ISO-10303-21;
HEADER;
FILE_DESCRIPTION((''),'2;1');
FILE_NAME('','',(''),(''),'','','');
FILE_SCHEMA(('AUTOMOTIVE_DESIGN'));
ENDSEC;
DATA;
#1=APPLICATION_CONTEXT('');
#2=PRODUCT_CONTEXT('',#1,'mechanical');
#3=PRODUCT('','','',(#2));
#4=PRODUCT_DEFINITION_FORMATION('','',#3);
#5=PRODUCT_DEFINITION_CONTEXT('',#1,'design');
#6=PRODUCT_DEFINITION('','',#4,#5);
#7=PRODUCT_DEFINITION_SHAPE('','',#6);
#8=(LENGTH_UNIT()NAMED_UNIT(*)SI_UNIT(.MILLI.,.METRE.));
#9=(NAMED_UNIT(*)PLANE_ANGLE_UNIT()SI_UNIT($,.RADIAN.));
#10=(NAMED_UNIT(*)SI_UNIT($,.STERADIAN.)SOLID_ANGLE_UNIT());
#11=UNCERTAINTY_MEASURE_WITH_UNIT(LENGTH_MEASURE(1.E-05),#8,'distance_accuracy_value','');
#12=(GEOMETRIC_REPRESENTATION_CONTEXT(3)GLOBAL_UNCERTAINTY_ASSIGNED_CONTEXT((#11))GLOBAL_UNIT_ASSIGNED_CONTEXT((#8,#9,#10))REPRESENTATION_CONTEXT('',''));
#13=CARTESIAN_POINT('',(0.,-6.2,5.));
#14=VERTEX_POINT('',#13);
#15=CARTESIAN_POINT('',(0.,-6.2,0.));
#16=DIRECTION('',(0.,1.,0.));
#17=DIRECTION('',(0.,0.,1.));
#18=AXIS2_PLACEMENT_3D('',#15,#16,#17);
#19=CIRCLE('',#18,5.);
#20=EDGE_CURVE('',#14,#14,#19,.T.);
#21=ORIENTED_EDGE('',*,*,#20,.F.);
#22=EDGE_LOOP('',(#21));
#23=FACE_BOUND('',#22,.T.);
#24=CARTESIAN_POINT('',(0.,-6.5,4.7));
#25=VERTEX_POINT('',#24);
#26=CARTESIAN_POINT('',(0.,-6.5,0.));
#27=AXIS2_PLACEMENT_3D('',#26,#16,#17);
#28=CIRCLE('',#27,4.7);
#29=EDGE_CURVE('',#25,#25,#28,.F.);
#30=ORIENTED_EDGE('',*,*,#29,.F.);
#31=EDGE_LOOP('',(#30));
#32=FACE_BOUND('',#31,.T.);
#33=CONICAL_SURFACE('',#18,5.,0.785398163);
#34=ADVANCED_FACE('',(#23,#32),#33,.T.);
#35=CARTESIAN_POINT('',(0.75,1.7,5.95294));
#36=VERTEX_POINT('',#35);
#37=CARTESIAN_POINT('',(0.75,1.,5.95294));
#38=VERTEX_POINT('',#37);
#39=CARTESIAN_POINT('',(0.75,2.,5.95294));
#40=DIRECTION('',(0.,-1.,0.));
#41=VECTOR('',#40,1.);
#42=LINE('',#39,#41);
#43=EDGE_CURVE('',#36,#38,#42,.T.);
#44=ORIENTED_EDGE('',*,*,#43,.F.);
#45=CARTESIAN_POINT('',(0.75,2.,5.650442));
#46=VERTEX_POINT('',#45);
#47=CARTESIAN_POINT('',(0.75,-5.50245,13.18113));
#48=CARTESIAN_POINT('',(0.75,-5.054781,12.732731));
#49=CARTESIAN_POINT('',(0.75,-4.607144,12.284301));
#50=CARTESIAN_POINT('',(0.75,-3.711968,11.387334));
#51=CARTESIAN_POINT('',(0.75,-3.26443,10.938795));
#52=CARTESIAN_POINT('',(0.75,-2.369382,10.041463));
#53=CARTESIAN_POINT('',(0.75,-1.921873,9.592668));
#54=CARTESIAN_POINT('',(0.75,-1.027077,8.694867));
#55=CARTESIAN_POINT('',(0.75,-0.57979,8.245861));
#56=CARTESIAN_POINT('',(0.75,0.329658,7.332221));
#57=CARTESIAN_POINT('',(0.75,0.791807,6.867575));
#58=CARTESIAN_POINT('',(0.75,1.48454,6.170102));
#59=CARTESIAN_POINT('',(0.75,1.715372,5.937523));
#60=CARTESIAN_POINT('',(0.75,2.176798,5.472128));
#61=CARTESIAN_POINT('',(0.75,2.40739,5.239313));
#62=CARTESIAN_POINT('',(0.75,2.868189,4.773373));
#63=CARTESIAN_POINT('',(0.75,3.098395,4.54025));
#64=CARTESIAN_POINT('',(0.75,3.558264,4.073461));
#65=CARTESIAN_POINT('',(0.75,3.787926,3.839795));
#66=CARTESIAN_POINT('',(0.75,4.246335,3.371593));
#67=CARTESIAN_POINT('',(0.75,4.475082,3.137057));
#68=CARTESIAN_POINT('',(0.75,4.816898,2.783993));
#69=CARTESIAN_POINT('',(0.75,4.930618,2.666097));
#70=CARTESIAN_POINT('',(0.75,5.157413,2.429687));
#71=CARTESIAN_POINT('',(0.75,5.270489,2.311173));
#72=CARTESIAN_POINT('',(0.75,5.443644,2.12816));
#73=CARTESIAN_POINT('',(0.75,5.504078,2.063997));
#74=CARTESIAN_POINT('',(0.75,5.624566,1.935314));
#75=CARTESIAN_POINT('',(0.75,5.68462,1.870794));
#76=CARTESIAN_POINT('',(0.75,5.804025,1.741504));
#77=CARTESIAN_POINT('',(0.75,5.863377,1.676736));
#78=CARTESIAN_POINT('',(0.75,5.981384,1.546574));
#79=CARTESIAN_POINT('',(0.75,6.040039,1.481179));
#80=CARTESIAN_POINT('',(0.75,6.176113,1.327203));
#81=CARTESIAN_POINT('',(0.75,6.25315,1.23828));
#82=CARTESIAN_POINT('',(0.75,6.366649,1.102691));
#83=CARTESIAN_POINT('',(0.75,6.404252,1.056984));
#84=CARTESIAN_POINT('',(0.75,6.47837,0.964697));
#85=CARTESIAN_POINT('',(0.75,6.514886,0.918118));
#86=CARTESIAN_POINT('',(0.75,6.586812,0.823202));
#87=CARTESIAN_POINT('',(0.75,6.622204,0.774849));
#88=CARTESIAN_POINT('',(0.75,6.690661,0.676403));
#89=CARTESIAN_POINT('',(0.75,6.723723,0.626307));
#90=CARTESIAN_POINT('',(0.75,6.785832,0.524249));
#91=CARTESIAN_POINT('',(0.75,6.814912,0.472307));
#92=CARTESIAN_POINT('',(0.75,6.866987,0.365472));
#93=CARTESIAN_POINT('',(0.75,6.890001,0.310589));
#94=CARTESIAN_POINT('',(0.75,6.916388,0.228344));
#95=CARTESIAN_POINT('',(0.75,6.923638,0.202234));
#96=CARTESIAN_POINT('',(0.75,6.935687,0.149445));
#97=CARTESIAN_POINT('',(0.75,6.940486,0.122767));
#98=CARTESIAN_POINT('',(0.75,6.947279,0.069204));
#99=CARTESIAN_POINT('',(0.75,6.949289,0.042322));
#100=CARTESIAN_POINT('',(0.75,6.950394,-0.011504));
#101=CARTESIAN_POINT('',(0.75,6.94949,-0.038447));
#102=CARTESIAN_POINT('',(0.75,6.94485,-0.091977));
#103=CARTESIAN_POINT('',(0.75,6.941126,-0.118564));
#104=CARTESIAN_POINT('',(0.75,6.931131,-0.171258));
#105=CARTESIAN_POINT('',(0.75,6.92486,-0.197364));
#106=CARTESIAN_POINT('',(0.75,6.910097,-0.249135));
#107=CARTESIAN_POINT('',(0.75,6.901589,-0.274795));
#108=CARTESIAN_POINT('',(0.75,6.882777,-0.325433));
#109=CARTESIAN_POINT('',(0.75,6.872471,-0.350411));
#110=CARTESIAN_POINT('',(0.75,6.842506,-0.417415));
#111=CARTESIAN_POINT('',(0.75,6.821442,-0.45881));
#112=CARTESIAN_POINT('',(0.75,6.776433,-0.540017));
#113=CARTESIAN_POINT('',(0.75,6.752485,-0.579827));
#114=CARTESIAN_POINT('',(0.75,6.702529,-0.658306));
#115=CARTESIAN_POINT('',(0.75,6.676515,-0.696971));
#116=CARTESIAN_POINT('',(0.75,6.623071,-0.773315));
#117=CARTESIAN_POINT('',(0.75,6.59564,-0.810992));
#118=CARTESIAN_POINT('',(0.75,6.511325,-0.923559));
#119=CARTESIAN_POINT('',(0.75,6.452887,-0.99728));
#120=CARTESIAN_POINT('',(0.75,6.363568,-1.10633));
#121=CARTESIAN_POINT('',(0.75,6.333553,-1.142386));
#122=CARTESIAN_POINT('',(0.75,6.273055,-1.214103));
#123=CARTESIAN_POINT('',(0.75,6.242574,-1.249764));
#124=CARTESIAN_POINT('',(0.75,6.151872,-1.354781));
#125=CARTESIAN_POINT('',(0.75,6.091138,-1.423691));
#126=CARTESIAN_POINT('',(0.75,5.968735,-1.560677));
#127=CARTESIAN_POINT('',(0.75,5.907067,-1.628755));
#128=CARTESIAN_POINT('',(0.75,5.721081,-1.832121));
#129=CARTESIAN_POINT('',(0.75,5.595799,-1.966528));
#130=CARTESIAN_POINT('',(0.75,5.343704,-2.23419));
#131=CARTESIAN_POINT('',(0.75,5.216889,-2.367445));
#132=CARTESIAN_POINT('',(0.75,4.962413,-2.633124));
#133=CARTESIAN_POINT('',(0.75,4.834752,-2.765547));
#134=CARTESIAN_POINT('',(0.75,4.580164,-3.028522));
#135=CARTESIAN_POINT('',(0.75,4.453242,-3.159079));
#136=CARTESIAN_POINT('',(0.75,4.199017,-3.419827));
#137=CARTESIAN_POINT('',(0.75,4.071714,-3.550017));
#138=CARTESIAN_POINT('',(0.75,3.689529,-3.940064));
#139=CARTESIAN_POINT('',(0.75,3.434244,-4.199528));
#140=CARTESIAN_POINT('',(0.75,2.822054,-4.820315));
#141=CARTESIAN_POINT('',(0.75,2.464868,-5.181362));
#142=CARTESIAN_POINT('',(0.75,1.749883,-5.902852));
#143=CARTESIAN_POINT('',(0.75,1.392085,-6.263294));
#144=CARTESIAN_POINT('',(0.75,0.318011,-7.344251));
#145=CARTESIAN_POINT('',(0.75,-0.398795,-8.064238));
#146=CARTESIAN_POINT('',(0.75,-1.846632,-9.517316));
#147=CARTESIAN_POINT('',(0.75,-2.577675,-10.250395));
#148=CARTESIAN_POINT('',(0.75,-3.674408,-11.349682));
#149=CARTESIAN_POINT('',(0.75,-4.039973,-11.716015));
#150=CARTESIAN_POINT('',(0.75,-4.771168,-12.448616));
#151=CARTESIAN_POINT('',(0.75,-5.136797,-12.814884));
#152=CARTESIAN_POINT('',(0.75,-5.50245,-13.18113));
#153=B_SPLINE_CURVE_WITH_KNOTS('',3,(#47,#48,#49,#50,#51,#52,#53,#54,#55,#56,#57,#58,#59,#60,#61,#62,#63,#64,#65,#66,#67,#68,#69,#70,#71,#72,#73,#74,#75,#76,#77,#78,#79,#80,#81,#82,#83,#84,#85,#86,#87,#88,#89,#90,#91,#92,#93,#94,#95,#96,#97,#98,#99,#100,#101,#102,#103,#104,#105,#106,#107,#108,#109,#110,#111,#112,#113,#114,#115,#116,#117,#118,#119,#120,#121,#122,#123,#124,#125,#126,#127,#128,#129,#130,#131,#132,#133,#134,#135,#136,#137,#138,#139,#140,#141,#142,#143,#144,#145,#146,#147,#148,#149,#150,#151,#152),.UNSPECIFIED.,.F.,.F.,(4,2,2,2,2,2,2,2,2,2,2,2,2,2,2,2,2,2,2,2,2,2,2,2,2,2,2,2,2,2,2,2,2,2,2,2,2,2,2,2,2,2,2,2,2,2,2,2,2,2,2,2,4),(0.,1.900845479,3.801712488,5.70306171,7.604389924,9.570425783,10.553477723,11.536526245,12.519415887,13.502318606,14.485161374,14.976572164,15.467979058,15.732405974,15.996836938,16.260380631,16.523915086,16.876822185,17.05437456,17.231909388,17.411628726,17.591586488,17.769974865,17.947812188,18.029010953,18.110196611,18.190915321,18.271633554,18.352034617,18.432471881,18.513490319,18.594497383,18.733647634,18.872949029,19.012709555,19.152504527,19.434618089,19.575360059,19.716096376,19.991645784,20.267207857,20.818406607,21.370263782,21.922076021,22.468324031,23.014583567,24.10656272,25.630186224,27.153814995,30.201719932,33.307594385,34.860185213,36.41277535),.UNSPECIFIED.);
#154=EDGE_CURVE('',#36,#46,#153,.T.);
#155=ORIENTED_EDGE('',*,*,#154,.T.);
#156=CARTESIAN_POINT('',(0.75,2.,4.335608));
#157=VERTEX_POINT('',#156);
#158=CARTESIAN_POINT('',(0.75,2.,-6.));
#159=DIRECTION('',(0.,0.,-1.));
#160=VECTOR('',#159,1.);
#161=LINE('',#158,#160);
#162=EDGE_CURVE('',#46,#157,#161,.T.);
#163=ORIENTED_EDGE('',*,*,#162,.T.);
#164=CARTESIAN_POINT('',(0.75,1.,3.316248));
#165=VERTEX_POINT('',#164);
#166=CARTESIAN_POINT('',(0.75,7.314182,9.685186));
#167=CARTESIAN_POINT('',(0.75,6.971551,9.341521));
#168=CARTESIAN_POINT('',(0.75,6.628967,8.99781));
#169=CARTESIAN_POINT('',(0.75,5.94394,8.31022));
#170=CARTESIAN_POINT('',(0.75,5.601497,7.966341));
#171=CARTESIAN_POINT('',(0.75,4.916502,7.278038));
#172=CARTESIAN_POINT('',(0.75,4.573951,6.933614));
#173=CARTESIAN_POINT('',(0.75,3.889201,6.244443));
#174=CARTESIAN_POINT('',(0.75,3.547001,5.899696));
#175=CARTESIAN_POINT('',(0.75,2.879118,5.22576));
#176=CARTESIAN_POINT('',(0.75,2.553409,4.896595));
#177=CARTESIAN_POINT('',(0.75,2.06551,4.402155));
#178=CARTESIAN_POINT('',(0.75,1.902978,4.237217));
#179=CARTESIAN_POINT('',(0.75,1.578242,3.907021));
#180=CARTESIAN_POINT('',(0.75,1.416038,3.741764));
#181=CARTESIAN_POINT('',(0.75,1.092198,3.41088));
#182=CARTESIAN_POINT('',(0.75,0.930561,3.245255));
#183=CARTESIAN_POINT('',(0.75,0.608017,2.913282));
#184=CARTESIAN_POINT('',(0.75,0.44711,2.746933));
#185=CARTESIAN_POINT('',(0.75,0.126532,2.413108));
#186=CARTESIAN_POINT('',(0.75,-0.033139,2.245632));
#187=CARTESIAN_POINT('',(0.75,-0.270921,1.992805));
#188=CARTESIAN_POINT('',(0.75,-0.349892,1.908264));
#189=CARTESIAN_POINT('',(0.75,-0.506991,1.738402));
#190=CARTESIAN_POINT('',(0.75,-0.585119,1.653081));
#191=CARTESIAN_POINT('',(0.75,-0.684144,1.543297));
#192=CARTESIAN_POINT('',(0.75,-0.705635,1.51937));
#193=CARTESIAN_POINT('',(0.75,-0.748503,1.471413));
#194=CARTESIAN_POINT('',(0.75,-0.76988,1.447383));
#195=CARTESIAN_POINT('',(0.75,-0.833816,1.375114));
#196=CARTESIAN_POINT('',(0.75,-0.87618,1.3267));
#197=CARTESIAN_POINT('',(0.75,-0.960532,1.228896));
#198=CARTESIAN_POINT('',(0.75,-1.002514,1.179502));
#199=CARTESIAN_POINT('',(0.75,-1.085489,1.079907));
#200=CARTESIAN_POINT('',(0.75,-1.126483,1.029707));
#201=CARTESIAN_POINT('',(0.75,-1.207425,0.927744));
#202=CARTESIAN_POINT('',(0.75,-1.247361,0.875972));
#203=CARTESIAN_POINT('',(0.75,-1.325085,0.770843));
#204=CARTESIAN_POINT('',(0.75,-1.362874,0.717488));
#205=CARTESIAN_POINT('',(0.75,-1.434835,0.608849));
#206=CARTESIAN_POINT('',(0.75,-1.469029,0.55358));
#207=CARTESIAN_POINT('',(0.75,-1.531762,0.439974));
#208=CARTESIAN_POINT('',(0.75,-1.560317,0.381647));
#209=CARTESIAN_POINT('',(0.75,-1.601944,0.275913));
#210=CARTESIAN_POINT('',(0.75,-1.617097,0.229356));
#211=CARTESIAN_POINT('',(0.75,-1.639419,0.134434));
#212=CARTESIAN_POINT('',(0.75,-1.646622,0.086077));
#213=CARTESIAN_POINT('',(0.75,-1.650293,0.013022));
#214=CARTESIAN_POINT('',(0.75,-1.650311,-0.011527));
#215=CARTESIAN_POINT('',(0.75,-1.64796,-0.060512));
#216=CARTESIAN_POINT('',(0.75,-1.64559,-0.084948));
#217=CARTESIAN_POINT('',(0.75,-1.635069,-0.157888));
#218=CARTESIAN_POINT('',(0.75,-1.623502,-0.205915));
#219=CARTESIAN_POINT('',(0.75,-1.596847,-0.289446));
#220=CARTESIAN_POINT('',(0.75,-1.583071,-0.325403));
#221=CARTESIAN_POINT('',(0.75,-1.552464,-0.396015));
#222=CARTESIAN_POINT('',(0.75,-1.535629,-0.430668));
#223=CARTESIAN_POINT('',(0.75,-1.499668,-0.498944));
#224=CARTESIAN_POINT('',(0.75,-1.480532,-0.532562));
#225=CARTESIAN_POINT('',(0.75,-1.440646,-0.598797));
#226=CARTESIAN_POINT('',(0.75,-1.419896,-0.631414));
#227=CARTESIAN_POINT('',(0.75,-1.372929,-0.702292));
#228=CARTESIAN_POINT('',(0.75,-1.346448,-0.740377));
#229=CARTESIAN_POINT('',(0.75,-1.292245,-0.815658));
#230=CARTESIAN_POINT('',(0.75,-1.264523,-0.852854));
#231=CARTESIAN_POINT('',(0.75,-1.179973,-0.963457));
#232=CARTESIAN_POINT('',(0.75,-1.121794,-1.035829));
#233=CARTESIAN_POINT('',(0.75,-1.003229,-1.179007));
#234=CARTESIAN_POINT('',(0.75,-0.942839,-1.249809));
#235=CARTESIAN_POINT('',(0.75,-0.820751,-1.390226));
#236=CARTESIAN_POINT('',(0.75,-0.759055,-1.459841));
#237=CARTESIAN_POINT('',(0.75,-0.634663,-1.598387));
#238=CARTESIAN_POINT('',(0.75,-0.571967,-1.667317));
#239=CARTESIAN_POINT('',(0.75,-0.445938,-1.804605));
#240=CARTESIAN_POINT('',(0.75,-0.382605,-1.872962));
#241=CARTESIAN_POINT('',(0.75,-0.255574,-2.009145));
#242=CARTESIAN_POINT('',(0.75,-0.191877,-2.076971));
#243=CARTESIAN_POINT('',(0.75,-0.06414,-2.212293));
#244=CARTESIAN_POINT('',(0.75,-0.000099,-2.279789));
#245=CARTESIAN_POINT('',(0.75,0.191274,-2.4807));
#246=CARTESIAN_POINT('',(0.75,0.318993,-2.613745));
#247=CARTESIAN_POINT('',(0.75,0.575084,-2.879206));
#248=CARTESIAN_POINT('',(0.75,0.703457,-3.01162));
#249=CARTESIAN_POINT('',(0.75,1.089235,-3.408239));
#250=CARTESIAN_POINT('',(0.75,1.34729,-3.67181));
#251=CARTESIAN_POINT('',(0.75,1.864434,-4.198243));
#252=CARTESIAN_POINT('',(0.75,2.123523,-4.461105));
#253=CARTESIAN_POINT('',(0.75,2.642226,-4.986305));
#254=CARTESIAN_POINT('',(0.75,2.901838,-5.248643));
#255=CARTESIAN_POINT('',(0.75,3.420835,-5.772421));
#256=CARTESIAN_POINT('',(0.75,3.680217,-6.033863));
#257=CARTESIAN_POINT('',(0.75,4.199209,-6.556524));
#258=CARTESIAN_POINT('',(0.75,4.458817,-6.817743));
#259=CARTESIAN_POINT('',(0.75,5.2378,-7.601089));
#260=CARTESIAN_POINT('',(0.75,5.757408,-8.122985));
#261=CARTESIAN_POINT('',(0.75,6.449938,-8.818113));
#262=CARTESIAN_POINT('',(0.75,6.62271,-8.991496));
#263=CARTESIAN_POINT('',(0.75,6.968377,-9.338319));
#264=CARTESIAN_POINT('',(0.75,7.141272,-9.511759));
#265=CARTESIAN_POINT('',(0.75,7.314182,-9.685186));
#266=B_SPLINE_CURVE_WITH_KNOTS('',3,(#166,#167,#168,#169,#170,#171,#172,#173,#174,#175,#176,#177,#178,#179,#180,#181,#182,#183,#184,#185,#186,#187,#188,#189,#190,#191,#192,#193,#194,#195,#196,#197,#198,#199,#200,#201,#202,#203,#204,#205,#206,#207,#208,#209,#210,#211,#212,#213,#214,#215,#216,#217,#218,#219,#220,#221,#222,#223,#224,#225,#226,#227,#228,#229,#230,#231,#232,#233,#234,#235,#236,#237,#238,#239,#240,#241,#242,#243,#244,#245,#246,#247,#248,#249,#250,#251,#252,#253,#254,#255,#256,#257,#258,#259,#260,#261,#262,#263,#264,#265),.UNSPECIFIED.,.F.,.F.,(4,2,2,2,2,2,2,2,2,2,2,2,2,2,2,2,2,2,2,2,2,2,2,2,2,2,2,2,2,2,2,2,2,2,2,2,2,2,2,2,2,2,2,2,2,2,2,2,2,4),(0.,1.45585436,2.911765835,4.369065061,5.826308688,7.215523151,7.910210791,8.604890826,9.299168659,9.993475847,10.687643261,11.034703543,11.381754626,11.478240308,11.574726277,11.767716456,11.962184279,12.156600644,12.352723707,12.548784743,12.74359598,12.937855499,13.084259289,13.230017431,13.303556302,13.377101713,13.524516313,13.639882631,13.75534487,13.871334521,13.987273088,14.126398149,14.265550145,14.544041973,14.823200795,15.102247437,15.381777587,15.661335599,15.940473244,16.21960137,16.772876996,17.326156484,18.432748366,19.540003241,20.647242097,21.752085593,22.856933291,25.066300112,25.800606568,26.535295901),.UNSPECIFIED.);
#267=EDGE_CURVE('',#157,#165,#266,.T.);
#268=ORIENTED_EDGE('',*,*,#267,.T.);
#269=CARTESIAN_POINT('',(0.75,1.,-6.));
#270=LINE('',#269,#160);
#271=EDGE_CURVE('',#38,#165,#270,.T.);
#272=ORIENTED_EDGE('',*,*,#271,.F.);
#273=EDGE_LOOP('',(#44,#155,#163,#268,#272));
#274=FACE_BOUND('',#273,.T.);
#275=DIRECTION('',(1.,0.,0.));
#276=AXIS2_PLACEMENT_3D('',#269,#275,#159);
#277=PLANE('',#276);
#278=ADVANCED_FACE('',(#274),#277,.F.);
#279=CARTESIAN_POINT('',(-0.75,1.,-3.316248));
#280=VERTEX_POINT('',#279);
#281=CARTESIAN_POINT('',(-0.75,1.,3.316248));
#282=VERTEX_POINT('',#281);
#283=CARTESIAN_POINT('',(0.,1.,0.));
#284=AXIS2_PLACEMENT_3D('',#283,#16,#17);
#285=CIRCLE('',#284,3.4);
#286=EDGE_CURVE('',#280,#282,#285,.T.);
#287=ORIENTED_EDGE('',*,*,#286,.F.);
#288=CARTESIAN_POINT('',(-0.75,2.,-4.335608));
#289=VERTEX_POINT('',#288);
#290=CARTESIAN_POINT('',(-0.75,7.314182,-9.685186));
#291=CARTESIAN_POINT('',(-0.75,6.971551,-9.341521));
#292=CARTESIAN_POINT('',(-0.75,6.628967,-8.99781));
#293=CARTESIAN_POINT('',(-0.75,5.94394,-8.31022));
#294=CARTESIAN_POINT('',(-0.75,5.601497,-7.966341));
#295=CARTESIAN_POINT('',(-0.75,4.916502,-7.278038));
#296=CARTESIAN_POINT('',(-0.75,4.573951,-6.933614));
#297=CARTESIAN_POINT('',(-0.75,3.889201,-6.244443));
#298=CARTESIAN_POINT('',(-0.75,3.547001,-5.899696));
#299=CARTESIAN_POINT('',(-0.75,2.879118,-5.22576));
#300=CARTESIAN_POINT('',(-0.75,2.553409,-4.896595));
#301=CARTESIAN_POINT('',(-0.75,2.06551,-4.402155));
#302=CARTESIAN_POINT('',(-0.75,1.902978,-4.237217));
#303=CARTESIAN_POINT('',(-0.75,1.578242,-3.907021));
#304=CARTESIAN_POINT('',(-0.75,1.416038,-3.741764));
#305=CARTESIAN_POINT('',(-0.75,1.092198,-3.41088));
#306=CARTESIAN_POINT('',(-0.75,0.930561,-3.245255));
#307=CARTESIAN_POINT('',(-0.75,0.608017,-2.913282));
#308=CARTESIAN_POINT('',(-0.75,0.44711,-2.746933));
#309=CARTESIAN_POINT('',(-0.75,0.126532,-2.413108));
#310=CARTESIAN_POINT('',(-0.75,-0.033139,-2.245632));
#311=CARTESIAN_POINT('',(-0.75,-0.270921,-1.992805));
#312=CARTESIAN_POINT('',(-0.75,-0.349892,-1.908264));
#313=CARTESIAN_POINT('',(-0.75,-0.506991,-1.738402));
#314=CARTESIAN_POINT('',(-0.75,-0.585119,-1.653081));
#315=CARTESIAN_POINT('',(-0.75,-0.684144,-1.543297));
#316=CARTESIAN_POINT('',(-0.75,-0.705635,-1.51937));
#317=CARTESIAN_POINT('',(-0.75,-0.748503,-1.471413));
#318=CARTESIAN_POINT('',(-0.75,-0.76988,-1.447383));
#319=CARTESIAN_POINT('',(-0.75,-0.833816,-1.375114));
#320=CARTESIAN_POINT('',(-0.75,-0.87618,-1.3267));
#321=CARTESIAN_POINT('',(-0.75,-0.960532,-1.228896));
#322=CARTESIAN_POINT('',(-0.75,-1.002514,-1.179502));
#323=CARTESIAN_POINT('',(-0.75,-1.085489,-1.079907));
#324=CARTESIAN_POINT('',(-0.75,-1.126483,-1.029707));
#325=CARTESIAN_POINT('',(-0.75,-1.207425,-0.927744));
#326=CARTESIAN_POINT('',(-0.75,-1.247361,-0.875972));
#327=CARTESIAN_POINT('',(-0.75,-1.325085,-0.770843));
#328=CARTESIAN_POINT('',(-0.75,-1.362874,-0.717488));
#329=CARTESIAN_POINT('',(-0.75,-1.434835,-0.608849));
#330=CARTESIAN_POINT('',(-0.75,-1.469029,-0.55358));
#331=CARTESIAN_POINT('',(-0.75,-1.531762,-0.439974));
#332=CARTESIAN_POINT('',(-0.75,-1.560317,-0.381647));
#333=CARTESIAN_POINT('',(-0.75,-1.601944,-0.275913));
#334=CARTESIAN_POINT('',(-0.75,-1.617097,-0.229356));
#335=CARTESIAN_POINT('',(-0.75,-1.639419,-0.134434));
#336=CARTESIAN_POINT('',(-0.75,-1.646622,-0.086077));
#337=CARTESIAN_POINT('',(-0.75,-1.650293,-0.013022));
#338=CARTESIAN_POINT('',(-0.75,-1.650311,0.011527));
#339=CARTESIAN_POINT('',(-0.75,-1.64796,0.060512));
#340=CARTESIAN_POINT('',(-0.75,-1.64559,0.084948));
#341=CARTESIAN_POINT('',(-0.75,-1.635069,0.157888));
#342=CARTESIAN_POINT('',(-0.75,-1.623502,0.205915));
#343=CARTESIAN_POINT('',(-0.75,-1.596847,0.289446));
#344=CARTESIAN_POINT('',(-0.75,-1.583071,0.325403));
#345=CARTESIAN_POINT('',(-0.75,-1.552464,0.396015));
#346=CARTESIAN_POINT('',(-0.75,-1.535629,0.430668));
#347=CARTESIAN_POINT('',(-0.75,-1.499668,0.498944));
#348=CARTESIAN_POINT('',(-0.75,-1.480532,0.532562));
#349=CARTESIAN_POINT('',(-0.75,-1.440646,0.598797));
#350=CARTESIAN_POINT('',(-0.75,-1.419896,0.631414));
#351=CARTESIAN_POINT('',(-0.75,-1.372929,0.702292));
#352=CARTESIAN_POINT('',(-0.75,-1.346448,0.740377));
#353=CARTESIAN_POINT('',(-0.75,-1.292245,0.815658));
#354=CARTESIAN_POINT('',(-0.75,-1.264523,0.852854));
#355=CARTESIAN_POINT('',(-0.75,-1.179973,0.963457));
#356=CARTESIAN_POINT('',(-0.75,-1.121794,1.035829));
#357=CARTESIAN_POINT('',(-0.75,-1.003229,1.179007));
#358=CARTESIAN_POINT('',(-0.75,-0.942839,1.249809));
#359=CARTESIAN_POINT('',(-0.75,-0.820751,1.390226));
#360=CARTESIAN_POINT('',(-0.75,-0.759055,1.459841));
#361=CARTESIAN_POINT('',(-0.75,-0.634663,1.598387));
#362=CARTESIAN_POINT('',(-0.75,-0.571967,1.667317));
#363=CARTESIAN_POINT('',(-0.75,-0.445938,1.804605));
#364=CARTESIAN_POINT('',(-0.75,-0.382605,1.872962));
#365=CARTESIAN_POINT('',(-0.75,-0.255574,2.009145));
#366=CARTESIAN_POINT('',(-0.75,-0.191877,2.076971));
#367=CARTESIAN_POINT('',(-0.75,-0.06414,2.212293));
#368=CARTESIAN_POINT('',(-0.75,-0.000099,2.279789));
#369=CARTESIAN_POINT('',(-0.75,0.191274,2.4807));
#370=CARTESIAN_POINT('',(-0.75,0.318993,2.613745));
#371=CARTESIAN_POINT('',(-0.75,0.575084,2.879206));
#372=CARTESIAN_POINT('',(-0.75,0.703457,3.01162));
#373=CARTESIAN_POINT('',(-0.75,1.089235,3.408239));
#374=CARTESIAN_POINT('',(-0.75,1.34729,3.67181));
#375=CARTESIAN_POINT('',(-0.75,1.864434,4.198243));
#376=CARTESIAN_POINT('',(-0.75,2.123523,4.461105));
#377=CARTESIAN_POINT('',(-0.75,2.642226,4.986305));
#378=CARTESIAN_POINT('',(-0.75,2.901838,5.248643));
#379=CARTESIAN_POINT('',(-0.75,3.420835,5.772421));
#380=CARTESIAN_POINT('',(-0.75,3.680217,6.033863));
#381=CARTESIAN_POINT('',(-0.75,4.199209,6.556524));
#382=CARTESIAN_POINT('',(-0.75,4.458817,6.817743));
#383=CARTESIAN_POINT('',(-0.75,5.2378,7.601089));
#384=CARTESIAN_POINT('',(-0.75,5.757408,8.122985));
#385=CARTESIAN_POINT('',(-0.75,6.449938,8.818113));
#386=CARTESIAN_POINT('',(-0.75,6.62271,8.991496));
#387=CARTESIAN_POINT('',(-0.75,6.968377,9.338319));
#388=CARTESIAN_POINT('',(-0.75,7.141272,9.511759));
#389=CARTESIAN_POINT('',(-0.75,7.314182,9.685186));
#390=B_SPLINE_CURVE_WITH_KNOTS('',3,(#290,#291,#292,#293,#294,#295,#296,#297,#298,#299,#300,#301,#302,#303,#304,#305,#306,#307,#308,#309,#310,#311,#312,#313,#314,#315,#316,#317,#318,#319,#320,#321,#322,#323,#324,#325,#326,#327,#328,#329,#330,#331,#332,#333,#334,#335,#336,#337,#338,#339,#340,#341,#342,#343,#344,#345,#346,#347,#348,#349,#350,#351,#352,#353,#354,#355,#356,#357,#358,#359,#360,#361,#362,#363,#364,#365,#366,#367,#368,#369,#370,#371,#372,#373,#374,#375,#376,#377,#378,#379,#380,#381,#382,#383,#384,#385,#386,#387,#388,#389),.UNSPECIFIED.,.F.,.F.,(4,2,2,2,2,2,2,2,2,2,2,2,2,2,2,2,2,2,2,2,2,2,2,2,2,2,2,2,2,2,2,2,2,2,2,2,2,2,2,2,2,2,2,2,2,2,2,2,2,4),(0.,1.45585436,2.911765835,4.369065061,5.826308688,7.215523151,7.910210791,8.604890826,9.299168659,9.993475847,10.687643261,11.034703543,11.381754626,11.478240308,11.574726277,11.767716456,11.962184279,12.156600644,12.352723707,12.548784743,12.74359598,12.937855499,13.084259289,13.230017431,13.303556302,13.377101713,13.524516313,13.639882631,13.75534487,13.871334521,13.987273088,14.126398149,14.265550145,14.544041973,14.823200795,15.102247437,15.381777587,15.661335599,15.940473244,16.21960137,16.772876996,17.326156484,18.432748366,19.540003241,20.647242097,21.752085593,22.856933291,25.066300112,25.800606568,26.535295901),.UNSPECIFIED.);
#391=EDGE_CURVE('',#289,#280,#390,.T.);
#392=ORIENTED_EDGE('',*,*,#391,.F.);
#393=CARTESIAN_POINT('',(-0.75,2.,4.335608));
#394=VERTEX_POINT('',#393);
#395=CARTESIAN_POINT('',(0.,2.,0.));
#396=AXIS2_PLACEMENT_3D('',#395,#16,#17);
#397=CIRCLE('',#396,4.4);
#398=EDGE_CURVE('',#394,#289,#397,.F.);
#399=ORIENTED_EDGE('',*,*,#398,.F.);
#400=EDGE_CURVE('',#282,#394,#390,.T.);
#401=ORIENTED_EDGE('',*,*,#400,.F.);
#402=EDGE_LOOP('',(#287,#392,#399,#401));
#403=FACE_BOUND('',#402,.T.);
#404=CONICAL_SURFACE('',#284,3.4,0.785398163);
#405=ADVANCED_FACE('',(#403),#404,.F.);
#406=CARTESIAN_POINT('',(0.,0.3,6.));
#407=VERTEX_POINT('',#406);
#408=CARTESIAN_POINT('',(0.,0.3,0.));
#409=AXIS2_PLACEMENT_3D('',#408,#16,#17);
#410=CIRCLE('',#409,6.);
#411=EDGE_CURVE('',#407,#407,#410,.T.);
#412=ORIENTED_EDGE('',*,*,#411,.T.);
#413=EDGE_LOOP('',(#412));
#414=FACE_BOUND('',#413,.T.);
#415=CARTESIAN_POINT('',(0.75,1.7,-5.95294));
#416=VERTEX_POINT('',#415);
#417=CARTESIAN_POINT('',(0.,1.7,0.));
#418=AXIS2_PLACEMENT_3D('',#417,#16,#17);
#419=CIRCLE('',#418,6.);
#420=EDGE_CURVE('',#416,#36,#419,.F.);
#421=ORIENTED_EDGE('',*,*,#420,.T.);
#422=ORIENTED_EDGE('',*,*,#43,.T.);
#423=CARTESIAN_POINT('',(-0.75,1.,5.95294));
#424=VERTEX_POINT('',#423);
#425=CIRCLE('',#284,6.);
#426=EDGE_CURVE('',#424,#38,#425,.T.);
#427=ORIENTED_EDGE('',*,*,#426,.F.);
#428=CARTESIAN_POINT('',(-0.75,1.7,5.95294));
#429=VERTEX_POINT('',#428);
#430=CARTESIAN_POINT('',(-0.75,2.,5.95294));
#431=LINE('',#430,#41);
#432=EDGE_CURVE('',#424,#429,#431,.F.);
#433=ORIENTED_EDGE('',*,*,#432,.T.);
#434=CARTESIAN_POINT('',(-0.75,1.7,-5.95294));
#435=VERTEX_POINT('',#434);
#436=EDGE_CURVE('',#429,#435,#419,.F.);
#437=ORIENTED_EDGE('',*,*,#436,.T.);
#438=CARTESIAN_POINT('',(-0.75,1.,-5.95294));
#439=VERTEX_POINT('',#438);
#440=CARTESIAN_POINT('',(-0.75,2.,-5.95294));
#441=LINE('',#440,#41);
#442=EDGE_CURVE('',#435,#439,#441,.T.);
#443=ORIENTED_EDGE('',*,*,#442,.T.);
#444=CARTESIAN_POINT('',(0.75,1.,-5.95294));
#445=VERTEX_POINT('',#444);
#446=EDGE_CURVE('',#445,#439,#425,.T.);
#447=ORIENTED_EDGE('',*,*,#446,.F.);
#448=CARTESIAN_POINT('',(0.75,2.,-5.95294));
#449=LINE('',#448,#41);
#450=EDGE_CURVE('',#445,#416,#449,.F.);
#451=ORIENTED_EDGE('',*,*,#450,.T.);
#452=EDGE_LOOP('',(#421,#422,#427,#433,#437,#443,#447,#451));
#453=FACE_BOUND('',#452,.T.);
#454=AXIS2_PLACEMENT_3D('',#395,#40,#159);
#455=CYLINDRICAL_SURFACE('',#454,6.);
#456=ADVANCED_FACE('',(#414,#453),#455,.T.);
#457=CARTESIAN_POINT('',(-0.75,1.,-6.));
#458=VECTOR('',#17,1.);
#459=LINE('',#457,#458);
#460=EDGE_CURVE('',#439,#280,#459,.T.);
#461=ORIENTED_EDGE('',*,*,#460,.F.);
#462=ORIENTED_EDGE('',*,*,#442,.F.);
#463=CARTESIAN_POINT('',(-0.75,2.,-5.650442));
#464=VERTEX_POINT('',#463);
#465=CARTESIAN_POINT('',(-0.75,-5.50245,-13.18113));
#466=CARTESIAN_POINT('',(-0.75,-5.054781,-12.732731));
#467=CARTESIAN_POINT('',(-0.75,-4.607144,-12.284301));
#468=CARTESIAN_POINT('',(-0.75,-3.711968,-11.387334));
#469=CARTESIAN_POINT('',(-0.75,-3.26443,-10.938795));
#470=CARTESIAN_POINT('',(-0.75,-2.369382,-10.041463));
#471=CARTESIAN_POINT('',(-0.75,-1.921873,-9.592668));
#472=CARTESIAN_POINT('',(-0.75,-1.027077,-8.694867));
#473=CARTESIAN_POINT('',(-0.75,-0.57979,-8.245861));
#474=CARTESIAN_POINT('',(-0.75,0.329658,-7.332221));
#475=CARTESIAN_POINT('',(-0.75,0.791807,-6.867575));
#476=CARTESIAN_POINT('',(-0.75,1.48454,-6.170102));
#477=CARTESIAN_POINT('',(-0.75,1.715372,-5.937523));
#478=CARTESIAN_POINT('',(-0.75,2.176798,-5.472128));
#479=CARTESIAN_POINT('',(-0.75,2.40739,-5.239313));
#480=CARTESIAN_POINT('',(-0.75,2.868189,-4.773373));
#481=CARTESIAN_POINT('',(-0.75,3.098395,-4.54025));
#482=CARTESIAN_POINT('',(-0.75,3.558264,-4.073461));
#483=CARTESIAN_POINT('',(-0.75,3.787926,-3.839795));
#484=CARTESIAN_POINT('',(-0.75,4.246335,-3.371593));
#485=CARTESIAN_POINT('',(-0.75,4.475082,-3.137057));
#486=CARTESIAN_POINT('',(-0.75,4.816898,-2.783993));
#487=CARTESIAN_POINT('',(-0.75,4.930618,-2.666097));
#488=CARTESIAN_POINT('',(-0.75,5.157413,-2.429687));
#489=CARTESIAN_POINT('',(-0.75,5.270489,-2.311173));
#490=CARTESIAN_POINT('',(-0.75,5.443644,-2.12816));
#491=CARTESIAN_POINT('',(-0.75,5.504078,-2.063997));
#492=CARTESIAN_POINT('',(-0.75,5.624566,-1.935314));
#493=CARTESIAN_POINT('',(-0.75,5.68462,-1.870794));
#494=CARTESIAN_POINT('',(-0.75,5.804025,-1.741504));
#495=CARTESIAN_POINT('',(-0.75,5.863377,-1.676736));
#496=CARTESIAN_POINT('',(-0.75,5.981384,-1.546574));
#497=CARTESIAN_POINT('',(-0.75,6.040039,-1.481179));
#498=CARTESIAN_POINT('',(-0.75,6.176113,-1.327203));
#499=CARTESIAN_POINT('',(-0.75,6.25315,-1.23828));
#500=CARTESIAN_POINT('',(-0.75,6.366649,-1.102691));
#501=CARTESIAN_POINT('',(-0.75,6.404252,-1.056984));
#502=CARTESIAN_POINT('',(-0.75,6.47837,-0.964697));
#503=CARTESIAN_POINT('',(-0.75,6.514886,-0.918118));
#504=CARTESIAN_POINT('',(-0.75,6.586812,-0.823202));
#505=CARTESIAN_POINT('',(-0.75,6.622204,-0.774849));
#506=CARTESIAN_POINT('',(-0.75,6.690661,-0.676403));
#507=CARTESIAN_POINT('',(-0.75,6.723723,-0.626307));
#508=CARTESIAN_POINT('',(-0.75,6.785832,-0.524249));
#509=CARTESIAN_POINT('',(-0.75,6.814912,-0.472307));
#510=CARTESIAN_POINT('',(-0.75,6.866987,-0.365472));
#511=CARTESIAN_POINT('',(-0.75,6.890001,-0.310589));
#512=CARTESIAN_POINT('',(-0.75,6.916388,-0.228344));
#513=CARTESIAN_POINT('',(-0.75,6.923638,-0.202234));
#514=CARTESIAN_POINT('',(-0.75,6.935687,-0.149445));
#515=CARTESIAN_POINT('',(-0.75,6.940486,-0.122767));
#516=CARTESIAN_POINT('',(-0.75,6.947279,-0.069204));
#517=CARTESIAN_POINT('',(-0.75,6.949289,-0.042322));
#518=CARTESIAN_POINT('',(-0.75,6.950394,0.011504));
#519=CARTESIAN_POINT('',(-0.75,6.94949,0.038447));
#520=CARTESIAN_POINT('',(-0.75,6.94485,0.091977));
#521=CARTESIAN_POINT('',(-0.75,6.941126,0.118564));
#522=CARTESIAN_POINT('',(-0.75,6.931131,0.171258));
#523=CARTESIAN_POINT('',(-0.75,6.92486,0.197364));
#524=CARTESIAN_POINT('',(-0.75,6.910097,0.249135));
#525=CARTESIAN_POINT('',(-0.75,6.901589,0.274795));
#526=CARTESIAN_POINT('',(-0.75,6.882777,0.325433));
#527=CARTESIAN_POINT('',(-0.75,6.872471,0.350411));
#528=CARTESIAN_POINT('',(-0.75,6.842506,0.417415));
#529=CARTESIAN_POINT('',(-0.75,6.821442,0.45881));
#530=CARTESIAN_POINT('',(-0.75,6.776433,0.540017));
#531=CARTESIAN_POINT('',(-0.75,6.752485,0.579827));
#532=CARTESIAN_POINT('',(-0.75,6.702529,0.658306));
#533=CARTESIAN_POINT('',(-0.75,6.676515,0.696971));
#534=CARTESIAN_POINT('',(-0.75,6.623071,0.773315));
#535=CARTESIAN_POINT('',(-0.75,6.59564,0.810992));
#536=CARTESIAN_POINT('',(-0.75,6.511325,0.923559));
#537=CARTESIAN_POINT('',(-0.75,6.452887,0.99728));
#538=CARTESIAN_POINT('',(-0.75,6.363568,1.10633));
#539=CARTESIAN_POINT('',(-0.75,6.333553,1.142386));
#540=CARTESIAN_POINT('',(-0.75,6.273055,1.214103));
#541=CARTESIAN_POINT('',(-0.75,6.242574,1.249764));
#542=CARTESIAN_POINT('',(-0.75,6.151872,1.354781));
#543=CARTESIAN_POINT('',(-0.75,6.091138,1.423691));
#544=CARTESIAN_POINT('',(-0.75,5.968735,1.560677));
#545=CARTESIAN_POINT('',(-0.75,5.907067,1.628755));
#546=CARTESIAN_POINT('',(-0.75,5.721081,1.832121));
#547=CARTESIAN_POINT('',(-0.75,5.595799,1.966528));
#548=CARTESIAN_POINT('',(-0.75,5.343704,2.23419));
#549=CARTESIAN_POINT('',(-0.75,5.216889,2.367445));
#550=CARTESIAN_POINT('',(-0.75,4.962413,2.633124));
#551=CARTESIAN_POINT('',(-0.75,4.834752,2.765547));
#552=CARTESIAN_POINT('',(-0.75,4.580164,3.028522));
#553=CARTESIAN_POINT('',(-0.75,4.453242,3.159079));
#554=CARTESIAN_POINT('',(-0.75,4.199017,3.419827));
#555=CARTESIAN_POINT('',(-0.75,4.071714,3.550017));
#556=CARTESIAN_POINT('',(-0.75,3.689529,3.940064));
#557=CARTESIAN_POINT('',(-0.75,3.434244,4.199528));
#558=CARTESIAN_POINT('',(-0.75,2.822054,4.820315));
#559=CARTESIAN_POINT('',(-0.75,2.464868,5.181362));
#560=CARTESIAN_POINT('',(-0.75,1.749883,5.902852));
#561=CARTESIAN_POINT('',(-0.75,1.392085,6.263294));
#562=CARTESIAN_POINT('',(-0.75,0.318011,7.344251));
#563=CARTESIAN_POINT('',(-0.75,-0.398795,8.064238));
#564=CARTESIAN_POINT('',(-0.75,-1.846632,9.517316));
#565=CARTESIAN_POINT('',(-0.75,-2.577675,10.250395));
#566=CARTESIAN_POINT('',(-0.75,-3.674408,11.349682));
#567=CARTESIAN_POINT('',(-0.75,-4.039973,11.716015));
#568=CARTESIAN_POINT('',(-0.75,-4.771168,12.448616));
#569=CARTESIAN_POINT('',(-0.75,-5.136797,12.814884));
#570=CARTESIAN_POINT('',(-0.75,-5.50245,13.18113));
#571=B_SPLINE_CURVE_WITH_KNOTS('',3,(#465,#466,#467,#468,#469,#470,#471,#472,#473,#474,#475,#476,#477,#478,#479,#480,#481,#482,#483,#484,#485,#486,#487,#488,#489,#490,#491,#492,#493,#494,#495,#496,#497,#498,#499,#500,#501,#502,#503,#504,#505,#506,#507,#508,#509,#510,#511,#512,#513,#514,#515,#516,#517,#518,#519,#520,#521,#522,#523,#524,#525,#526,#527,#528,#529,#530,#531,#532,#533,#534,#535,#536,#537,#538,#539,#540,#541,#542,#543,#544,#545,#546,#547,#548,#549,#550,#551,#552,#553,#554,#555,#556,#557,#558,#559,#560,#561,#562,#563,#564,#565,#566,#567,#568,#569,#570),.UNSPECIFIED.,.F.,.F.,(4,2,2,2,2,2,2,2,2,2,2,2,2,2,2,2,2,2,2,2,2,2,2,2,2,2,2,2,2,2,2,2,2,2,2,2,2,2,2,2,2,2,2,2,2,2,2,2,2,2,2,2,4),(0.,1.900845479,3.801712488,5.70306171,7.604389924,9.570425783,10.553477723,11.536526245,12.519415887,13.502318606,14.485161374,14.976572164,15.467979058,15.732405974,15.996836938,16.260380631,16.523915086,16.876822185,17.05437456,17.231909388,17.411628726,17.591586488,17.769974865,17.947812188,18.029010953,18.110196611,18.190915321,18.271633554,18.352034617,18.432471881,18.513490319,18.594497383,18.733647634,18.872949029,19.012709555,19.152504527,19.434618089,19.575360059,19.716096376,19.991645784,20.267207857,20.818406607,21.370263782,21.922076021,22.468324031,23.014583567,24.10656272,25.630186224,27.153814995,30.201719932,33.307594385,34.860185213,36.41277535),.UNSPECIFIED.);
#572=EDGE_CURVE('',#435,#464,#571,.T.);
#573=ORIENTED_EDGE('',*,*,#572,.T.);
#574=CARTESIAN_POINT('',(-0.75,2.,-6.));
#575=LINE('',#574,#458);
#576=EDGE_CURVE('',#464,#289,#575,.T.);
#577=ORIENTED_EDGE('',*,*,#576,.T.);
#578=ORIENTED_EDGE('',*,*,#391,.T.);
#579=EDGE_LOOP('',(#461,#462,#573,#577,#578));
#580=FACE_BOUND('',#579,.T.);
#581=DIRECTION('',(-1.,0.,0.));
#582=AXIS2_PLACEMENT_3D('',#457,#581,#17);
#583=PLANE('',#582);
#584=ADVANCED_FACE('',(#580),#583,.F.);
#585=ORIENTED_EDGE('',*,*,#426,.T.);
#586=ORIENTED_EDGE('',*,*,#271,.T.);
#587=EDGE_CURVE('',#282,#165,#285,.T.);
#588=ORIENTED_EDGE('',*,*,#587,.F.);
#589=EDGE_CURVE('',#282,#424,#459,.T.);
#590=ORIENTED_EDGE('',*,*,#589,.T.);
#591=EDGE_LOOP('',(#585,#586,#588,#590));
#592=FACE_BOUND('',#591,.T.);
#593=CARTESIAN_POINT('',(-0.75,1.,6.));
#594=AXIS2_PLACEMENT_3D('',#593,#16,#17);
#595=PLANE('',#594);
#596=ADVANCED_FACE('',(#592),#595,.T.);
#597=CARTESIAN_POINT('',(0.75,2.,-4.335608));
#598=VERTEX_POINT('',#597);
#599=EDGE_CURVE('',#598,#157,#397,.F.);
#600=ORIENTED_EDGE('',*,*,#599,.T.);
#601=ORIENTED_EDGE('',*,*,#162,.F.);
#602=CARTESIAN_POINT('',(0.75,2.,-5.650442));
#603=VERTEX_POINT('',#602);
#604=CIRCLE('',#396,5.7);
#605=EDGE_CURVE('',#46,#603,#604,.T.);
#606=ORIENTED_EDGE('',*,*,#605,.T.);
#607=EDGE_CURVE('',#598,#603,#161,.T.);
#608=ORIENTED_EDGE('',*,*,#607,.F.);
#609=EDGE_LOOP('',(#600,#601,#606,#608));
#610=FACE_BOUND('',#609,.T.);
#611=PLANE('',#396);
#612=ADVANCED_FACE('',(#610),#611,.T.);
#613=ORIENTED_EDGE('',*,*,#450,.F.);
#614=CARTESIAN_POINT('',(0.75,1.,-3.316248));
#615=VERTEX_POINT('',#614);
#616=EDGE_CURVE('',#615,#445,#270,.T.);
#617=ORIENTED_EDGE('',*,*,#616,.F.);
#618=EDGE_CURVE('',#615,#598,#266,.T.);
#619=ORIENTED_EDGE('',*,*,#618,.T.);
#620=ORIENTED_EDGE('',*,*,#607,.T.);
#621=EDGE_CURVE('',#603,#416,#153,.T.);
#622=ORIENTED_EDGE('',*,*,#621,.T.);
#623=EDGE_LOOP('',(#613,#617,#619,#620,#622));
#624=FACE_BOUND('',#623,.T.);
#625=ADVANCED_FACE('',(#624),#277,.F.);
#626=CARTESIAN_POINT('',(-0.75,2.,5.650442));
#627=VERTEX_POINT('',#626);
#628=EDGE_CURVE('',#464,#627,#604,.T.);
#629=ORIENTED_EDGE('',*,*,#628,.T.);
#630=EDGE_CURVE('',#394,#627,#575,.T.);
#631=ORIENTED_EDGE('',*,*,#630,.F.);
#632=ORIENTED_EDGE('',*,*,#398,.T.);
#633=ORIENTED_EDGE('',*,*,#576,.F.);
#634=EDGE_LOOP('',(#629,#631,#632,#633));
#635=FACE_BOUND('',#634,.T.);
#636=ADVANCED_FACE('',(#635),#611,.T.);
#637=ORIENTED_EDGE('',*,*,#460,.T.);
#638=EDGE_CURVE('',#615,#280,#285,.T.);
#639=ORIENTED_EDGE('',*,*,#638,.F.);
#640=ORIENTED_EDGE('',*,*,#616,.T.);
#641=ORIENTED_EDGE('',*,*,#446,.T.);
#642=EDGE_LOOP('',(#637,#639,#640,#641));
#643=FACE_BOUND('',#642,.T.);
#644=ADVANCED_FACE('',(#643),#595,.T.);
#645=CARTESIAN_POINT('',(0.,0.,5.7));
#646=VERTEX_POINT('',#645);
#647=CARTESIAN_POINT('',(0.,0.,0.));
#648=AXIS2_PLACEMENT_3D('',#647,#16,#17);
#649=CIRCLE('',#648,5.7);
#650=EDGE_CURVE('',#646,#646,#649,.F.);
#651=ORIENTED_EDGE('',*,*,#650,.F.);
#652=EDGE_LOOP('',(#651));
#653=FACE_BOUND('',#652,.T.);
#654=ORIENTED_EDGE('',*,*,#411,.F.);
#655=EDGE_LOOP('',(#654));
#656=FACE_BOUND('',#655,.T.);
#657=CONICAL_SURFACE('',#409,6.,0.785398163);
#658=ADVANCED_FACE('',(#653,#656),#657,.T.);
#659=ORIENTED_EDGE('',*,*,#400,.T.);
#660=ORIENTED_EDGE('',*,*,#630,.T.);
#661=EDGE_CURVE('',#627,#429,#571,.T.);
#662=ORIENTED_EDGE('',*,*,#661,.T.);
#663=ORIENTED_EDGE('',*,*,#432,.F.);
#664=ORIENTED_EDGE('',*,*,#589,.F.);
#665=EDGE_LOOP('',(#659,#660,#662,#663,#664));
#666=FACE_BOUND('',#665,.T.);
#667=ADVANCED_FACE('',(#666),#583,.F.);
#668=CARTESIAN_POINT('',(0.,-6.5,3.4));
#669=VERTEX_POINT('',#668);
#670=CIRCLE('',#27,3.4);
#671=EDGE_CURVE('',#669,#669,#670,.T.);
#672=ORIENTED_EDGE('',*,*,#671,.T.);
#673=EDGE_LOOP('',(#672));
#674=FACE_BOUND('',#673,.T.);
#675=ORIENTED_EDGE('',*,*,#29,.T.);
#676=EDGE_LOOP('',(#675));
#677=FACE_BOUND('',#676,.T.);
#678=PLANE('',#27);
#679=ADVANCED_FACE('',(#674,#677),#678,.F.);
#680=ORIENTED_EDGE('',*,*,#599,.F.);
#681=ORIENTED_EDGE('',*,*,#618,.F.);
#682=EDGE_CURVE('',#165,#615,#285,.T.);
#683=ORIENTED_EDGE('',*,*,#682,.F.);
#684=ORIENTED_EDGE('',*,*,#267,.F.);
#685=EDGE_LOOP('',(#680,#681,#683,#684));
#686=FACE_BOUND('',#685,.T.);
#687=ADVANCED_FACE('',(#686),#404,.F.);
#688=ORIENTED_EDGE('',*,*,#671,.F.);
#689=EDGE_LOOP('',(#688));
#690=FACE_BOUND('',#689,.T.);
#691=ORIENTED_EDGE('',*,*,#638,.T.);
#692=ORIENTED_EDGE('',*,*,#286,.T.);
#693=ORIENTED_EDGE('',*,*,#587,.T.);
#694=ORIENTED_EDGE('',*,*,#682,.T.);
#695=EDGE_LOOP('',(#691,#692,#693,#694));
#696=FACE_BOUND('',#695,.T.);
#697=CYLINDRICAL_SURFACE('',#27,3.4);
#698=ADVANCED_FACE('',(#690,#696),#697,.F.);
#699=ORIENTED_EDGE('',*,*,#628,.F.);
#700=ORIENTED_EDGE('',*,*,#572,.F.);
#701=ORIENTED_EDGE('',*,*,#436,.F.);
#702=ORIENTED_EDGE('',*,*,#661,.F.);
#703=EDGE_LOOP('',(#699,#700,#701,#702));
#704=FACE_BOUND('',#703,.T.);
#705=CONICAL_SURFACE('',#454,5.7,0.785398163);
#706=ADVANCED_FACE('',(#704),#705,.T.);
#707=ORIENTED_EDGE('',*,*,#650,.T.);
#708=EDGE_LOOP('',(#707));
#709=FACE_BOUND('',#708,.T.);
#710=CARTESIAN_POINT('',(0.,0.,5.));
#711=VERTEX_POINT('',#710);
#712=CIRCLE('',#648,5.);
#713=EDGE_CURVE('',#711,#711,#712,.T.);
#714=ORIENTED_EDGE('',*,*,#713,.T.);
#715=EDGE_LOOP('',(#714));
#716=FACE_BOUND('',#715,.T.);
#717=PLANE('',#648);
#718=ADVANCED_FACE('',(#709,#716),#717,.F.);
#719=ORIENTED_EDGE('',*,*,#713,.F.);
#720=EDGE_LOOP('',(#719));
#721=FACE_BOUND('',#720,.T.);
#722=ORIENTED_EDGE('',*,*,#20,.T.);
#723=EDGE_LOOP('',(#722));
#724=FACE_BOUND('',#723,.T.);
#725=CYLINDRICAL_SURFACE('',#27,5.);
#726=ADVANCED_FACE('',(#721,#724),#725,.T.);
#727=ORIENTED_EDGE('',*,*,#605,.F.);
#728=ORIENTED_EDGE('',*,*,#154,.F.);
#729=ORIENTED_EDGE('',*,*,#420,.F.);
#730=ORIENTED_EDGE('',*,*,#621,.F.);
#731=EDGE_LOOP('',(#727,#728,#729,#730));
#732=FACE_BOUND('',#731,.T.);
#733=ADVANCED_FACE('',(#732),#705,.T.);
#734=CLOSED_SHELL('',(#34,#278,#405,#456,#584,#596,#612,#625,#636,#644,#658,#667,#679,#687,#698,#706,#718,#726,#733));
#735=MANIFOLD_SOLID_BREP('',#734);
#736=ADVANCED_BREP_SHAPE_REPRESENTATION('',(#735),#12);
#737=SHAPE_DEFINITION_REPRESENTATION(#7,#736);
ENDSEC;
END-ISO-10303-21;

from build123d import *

# Parameters (mm, degrees)
ESQUISSE1_R             = 5
EXTRUSION1_DEPTH        = 6.5
ESQUISSE2_R             = 6
EXTRUSION2_DEPTH        = 2
ESQUISSE3_R             = 3.4
ENL_V_MAT_EXTRU_1_DEPTH = 9.5
CHANFREIN1_SIZE         = 0.3
CHANFREIN2_SIZE         = 1
ESQUISSE4_W             = 1.5
ESQUISSE4_H             = 12
ENL_V_MAT_EXTRU_2_DEPTH = 1


with BuildPart() as part:
    # Esquisse1 → Extrusion1 (new body)
    with BuildSketch(Plane(origin=(0, 0, 0), x_dir=(1, 0, 0), z_dir=(0, 1, 0))):
        with Locations(Location((0, 0, 0), (0, 0, 270))):  # turned: the seam where the file's is
            Circle(ESQUISSE1_R)
    extrude(amount=-EXTRUSION1_DEPTH)

    # Esquisse2 → Extrusion2 (add)
    with BuildSketch(Plane(origin=(0, 0, 0), x_dir=(-1, 0, 0), z_dir=(0, 1, 0))):
        with Locations(Location((0, 0, 0), (0, 0, 90))):  # turned: the seam where the file's is
            Circle(ESQUISSE2_R)
    extrude(amount=EXTRUSION2_DEPTH)

    # Esquisse3 → Enlèv. mat.-Extru.1 (cut, through all)
    with BuildSketch(Plane(origin=(0, 2, 0), x_dir=(-1, 0, 0), z_dir=(0, 1, 0))):
        with Locations(Location((0, 0, 0), (0, 0, 90))):  # turned: the seam where the file's is
            Circle(ESQUISSE3_R)
    extrude(amount=-ENL_V_MAT_EXTRU_1_DEPTH, mode=Mode.SUBTRACT)

    # Chanfrein1
    chanfrein1_edges = [part.edges().sort_by_distance(p)[0] for p in [
        (0, -6.5, -5),
        (0, 0, -6),
        (0, 2, -6),
    ]]
    chamfer(chanfrein1_edges, length=CHANFREIN1_SIZE)

    # Chanfrein2
    chanfrein2_edges = [part.edges().sort_by_distance(p)[0] for p in [
        (0, 2, -3.4),
    ]]
    chamfer(chanfrein2_edges, length=CHANFREIN2_SIZE)

    # Esquisse4 → Enlèv. mat.-Extru.2 (cut)
    with BuildSketch(Plane(origin=(0, 2, 0), x_dir=(-1, 0, 0), z_dir=(0, 1, 0))):
        Rectangle(ESQUISSE4_W, ESQUISSE4_H)
    extrude(amount=-ENL_V_MAT_EXTRU_2_DEPTH, mode=Mode.SUBTRACT)


solid = part.part
